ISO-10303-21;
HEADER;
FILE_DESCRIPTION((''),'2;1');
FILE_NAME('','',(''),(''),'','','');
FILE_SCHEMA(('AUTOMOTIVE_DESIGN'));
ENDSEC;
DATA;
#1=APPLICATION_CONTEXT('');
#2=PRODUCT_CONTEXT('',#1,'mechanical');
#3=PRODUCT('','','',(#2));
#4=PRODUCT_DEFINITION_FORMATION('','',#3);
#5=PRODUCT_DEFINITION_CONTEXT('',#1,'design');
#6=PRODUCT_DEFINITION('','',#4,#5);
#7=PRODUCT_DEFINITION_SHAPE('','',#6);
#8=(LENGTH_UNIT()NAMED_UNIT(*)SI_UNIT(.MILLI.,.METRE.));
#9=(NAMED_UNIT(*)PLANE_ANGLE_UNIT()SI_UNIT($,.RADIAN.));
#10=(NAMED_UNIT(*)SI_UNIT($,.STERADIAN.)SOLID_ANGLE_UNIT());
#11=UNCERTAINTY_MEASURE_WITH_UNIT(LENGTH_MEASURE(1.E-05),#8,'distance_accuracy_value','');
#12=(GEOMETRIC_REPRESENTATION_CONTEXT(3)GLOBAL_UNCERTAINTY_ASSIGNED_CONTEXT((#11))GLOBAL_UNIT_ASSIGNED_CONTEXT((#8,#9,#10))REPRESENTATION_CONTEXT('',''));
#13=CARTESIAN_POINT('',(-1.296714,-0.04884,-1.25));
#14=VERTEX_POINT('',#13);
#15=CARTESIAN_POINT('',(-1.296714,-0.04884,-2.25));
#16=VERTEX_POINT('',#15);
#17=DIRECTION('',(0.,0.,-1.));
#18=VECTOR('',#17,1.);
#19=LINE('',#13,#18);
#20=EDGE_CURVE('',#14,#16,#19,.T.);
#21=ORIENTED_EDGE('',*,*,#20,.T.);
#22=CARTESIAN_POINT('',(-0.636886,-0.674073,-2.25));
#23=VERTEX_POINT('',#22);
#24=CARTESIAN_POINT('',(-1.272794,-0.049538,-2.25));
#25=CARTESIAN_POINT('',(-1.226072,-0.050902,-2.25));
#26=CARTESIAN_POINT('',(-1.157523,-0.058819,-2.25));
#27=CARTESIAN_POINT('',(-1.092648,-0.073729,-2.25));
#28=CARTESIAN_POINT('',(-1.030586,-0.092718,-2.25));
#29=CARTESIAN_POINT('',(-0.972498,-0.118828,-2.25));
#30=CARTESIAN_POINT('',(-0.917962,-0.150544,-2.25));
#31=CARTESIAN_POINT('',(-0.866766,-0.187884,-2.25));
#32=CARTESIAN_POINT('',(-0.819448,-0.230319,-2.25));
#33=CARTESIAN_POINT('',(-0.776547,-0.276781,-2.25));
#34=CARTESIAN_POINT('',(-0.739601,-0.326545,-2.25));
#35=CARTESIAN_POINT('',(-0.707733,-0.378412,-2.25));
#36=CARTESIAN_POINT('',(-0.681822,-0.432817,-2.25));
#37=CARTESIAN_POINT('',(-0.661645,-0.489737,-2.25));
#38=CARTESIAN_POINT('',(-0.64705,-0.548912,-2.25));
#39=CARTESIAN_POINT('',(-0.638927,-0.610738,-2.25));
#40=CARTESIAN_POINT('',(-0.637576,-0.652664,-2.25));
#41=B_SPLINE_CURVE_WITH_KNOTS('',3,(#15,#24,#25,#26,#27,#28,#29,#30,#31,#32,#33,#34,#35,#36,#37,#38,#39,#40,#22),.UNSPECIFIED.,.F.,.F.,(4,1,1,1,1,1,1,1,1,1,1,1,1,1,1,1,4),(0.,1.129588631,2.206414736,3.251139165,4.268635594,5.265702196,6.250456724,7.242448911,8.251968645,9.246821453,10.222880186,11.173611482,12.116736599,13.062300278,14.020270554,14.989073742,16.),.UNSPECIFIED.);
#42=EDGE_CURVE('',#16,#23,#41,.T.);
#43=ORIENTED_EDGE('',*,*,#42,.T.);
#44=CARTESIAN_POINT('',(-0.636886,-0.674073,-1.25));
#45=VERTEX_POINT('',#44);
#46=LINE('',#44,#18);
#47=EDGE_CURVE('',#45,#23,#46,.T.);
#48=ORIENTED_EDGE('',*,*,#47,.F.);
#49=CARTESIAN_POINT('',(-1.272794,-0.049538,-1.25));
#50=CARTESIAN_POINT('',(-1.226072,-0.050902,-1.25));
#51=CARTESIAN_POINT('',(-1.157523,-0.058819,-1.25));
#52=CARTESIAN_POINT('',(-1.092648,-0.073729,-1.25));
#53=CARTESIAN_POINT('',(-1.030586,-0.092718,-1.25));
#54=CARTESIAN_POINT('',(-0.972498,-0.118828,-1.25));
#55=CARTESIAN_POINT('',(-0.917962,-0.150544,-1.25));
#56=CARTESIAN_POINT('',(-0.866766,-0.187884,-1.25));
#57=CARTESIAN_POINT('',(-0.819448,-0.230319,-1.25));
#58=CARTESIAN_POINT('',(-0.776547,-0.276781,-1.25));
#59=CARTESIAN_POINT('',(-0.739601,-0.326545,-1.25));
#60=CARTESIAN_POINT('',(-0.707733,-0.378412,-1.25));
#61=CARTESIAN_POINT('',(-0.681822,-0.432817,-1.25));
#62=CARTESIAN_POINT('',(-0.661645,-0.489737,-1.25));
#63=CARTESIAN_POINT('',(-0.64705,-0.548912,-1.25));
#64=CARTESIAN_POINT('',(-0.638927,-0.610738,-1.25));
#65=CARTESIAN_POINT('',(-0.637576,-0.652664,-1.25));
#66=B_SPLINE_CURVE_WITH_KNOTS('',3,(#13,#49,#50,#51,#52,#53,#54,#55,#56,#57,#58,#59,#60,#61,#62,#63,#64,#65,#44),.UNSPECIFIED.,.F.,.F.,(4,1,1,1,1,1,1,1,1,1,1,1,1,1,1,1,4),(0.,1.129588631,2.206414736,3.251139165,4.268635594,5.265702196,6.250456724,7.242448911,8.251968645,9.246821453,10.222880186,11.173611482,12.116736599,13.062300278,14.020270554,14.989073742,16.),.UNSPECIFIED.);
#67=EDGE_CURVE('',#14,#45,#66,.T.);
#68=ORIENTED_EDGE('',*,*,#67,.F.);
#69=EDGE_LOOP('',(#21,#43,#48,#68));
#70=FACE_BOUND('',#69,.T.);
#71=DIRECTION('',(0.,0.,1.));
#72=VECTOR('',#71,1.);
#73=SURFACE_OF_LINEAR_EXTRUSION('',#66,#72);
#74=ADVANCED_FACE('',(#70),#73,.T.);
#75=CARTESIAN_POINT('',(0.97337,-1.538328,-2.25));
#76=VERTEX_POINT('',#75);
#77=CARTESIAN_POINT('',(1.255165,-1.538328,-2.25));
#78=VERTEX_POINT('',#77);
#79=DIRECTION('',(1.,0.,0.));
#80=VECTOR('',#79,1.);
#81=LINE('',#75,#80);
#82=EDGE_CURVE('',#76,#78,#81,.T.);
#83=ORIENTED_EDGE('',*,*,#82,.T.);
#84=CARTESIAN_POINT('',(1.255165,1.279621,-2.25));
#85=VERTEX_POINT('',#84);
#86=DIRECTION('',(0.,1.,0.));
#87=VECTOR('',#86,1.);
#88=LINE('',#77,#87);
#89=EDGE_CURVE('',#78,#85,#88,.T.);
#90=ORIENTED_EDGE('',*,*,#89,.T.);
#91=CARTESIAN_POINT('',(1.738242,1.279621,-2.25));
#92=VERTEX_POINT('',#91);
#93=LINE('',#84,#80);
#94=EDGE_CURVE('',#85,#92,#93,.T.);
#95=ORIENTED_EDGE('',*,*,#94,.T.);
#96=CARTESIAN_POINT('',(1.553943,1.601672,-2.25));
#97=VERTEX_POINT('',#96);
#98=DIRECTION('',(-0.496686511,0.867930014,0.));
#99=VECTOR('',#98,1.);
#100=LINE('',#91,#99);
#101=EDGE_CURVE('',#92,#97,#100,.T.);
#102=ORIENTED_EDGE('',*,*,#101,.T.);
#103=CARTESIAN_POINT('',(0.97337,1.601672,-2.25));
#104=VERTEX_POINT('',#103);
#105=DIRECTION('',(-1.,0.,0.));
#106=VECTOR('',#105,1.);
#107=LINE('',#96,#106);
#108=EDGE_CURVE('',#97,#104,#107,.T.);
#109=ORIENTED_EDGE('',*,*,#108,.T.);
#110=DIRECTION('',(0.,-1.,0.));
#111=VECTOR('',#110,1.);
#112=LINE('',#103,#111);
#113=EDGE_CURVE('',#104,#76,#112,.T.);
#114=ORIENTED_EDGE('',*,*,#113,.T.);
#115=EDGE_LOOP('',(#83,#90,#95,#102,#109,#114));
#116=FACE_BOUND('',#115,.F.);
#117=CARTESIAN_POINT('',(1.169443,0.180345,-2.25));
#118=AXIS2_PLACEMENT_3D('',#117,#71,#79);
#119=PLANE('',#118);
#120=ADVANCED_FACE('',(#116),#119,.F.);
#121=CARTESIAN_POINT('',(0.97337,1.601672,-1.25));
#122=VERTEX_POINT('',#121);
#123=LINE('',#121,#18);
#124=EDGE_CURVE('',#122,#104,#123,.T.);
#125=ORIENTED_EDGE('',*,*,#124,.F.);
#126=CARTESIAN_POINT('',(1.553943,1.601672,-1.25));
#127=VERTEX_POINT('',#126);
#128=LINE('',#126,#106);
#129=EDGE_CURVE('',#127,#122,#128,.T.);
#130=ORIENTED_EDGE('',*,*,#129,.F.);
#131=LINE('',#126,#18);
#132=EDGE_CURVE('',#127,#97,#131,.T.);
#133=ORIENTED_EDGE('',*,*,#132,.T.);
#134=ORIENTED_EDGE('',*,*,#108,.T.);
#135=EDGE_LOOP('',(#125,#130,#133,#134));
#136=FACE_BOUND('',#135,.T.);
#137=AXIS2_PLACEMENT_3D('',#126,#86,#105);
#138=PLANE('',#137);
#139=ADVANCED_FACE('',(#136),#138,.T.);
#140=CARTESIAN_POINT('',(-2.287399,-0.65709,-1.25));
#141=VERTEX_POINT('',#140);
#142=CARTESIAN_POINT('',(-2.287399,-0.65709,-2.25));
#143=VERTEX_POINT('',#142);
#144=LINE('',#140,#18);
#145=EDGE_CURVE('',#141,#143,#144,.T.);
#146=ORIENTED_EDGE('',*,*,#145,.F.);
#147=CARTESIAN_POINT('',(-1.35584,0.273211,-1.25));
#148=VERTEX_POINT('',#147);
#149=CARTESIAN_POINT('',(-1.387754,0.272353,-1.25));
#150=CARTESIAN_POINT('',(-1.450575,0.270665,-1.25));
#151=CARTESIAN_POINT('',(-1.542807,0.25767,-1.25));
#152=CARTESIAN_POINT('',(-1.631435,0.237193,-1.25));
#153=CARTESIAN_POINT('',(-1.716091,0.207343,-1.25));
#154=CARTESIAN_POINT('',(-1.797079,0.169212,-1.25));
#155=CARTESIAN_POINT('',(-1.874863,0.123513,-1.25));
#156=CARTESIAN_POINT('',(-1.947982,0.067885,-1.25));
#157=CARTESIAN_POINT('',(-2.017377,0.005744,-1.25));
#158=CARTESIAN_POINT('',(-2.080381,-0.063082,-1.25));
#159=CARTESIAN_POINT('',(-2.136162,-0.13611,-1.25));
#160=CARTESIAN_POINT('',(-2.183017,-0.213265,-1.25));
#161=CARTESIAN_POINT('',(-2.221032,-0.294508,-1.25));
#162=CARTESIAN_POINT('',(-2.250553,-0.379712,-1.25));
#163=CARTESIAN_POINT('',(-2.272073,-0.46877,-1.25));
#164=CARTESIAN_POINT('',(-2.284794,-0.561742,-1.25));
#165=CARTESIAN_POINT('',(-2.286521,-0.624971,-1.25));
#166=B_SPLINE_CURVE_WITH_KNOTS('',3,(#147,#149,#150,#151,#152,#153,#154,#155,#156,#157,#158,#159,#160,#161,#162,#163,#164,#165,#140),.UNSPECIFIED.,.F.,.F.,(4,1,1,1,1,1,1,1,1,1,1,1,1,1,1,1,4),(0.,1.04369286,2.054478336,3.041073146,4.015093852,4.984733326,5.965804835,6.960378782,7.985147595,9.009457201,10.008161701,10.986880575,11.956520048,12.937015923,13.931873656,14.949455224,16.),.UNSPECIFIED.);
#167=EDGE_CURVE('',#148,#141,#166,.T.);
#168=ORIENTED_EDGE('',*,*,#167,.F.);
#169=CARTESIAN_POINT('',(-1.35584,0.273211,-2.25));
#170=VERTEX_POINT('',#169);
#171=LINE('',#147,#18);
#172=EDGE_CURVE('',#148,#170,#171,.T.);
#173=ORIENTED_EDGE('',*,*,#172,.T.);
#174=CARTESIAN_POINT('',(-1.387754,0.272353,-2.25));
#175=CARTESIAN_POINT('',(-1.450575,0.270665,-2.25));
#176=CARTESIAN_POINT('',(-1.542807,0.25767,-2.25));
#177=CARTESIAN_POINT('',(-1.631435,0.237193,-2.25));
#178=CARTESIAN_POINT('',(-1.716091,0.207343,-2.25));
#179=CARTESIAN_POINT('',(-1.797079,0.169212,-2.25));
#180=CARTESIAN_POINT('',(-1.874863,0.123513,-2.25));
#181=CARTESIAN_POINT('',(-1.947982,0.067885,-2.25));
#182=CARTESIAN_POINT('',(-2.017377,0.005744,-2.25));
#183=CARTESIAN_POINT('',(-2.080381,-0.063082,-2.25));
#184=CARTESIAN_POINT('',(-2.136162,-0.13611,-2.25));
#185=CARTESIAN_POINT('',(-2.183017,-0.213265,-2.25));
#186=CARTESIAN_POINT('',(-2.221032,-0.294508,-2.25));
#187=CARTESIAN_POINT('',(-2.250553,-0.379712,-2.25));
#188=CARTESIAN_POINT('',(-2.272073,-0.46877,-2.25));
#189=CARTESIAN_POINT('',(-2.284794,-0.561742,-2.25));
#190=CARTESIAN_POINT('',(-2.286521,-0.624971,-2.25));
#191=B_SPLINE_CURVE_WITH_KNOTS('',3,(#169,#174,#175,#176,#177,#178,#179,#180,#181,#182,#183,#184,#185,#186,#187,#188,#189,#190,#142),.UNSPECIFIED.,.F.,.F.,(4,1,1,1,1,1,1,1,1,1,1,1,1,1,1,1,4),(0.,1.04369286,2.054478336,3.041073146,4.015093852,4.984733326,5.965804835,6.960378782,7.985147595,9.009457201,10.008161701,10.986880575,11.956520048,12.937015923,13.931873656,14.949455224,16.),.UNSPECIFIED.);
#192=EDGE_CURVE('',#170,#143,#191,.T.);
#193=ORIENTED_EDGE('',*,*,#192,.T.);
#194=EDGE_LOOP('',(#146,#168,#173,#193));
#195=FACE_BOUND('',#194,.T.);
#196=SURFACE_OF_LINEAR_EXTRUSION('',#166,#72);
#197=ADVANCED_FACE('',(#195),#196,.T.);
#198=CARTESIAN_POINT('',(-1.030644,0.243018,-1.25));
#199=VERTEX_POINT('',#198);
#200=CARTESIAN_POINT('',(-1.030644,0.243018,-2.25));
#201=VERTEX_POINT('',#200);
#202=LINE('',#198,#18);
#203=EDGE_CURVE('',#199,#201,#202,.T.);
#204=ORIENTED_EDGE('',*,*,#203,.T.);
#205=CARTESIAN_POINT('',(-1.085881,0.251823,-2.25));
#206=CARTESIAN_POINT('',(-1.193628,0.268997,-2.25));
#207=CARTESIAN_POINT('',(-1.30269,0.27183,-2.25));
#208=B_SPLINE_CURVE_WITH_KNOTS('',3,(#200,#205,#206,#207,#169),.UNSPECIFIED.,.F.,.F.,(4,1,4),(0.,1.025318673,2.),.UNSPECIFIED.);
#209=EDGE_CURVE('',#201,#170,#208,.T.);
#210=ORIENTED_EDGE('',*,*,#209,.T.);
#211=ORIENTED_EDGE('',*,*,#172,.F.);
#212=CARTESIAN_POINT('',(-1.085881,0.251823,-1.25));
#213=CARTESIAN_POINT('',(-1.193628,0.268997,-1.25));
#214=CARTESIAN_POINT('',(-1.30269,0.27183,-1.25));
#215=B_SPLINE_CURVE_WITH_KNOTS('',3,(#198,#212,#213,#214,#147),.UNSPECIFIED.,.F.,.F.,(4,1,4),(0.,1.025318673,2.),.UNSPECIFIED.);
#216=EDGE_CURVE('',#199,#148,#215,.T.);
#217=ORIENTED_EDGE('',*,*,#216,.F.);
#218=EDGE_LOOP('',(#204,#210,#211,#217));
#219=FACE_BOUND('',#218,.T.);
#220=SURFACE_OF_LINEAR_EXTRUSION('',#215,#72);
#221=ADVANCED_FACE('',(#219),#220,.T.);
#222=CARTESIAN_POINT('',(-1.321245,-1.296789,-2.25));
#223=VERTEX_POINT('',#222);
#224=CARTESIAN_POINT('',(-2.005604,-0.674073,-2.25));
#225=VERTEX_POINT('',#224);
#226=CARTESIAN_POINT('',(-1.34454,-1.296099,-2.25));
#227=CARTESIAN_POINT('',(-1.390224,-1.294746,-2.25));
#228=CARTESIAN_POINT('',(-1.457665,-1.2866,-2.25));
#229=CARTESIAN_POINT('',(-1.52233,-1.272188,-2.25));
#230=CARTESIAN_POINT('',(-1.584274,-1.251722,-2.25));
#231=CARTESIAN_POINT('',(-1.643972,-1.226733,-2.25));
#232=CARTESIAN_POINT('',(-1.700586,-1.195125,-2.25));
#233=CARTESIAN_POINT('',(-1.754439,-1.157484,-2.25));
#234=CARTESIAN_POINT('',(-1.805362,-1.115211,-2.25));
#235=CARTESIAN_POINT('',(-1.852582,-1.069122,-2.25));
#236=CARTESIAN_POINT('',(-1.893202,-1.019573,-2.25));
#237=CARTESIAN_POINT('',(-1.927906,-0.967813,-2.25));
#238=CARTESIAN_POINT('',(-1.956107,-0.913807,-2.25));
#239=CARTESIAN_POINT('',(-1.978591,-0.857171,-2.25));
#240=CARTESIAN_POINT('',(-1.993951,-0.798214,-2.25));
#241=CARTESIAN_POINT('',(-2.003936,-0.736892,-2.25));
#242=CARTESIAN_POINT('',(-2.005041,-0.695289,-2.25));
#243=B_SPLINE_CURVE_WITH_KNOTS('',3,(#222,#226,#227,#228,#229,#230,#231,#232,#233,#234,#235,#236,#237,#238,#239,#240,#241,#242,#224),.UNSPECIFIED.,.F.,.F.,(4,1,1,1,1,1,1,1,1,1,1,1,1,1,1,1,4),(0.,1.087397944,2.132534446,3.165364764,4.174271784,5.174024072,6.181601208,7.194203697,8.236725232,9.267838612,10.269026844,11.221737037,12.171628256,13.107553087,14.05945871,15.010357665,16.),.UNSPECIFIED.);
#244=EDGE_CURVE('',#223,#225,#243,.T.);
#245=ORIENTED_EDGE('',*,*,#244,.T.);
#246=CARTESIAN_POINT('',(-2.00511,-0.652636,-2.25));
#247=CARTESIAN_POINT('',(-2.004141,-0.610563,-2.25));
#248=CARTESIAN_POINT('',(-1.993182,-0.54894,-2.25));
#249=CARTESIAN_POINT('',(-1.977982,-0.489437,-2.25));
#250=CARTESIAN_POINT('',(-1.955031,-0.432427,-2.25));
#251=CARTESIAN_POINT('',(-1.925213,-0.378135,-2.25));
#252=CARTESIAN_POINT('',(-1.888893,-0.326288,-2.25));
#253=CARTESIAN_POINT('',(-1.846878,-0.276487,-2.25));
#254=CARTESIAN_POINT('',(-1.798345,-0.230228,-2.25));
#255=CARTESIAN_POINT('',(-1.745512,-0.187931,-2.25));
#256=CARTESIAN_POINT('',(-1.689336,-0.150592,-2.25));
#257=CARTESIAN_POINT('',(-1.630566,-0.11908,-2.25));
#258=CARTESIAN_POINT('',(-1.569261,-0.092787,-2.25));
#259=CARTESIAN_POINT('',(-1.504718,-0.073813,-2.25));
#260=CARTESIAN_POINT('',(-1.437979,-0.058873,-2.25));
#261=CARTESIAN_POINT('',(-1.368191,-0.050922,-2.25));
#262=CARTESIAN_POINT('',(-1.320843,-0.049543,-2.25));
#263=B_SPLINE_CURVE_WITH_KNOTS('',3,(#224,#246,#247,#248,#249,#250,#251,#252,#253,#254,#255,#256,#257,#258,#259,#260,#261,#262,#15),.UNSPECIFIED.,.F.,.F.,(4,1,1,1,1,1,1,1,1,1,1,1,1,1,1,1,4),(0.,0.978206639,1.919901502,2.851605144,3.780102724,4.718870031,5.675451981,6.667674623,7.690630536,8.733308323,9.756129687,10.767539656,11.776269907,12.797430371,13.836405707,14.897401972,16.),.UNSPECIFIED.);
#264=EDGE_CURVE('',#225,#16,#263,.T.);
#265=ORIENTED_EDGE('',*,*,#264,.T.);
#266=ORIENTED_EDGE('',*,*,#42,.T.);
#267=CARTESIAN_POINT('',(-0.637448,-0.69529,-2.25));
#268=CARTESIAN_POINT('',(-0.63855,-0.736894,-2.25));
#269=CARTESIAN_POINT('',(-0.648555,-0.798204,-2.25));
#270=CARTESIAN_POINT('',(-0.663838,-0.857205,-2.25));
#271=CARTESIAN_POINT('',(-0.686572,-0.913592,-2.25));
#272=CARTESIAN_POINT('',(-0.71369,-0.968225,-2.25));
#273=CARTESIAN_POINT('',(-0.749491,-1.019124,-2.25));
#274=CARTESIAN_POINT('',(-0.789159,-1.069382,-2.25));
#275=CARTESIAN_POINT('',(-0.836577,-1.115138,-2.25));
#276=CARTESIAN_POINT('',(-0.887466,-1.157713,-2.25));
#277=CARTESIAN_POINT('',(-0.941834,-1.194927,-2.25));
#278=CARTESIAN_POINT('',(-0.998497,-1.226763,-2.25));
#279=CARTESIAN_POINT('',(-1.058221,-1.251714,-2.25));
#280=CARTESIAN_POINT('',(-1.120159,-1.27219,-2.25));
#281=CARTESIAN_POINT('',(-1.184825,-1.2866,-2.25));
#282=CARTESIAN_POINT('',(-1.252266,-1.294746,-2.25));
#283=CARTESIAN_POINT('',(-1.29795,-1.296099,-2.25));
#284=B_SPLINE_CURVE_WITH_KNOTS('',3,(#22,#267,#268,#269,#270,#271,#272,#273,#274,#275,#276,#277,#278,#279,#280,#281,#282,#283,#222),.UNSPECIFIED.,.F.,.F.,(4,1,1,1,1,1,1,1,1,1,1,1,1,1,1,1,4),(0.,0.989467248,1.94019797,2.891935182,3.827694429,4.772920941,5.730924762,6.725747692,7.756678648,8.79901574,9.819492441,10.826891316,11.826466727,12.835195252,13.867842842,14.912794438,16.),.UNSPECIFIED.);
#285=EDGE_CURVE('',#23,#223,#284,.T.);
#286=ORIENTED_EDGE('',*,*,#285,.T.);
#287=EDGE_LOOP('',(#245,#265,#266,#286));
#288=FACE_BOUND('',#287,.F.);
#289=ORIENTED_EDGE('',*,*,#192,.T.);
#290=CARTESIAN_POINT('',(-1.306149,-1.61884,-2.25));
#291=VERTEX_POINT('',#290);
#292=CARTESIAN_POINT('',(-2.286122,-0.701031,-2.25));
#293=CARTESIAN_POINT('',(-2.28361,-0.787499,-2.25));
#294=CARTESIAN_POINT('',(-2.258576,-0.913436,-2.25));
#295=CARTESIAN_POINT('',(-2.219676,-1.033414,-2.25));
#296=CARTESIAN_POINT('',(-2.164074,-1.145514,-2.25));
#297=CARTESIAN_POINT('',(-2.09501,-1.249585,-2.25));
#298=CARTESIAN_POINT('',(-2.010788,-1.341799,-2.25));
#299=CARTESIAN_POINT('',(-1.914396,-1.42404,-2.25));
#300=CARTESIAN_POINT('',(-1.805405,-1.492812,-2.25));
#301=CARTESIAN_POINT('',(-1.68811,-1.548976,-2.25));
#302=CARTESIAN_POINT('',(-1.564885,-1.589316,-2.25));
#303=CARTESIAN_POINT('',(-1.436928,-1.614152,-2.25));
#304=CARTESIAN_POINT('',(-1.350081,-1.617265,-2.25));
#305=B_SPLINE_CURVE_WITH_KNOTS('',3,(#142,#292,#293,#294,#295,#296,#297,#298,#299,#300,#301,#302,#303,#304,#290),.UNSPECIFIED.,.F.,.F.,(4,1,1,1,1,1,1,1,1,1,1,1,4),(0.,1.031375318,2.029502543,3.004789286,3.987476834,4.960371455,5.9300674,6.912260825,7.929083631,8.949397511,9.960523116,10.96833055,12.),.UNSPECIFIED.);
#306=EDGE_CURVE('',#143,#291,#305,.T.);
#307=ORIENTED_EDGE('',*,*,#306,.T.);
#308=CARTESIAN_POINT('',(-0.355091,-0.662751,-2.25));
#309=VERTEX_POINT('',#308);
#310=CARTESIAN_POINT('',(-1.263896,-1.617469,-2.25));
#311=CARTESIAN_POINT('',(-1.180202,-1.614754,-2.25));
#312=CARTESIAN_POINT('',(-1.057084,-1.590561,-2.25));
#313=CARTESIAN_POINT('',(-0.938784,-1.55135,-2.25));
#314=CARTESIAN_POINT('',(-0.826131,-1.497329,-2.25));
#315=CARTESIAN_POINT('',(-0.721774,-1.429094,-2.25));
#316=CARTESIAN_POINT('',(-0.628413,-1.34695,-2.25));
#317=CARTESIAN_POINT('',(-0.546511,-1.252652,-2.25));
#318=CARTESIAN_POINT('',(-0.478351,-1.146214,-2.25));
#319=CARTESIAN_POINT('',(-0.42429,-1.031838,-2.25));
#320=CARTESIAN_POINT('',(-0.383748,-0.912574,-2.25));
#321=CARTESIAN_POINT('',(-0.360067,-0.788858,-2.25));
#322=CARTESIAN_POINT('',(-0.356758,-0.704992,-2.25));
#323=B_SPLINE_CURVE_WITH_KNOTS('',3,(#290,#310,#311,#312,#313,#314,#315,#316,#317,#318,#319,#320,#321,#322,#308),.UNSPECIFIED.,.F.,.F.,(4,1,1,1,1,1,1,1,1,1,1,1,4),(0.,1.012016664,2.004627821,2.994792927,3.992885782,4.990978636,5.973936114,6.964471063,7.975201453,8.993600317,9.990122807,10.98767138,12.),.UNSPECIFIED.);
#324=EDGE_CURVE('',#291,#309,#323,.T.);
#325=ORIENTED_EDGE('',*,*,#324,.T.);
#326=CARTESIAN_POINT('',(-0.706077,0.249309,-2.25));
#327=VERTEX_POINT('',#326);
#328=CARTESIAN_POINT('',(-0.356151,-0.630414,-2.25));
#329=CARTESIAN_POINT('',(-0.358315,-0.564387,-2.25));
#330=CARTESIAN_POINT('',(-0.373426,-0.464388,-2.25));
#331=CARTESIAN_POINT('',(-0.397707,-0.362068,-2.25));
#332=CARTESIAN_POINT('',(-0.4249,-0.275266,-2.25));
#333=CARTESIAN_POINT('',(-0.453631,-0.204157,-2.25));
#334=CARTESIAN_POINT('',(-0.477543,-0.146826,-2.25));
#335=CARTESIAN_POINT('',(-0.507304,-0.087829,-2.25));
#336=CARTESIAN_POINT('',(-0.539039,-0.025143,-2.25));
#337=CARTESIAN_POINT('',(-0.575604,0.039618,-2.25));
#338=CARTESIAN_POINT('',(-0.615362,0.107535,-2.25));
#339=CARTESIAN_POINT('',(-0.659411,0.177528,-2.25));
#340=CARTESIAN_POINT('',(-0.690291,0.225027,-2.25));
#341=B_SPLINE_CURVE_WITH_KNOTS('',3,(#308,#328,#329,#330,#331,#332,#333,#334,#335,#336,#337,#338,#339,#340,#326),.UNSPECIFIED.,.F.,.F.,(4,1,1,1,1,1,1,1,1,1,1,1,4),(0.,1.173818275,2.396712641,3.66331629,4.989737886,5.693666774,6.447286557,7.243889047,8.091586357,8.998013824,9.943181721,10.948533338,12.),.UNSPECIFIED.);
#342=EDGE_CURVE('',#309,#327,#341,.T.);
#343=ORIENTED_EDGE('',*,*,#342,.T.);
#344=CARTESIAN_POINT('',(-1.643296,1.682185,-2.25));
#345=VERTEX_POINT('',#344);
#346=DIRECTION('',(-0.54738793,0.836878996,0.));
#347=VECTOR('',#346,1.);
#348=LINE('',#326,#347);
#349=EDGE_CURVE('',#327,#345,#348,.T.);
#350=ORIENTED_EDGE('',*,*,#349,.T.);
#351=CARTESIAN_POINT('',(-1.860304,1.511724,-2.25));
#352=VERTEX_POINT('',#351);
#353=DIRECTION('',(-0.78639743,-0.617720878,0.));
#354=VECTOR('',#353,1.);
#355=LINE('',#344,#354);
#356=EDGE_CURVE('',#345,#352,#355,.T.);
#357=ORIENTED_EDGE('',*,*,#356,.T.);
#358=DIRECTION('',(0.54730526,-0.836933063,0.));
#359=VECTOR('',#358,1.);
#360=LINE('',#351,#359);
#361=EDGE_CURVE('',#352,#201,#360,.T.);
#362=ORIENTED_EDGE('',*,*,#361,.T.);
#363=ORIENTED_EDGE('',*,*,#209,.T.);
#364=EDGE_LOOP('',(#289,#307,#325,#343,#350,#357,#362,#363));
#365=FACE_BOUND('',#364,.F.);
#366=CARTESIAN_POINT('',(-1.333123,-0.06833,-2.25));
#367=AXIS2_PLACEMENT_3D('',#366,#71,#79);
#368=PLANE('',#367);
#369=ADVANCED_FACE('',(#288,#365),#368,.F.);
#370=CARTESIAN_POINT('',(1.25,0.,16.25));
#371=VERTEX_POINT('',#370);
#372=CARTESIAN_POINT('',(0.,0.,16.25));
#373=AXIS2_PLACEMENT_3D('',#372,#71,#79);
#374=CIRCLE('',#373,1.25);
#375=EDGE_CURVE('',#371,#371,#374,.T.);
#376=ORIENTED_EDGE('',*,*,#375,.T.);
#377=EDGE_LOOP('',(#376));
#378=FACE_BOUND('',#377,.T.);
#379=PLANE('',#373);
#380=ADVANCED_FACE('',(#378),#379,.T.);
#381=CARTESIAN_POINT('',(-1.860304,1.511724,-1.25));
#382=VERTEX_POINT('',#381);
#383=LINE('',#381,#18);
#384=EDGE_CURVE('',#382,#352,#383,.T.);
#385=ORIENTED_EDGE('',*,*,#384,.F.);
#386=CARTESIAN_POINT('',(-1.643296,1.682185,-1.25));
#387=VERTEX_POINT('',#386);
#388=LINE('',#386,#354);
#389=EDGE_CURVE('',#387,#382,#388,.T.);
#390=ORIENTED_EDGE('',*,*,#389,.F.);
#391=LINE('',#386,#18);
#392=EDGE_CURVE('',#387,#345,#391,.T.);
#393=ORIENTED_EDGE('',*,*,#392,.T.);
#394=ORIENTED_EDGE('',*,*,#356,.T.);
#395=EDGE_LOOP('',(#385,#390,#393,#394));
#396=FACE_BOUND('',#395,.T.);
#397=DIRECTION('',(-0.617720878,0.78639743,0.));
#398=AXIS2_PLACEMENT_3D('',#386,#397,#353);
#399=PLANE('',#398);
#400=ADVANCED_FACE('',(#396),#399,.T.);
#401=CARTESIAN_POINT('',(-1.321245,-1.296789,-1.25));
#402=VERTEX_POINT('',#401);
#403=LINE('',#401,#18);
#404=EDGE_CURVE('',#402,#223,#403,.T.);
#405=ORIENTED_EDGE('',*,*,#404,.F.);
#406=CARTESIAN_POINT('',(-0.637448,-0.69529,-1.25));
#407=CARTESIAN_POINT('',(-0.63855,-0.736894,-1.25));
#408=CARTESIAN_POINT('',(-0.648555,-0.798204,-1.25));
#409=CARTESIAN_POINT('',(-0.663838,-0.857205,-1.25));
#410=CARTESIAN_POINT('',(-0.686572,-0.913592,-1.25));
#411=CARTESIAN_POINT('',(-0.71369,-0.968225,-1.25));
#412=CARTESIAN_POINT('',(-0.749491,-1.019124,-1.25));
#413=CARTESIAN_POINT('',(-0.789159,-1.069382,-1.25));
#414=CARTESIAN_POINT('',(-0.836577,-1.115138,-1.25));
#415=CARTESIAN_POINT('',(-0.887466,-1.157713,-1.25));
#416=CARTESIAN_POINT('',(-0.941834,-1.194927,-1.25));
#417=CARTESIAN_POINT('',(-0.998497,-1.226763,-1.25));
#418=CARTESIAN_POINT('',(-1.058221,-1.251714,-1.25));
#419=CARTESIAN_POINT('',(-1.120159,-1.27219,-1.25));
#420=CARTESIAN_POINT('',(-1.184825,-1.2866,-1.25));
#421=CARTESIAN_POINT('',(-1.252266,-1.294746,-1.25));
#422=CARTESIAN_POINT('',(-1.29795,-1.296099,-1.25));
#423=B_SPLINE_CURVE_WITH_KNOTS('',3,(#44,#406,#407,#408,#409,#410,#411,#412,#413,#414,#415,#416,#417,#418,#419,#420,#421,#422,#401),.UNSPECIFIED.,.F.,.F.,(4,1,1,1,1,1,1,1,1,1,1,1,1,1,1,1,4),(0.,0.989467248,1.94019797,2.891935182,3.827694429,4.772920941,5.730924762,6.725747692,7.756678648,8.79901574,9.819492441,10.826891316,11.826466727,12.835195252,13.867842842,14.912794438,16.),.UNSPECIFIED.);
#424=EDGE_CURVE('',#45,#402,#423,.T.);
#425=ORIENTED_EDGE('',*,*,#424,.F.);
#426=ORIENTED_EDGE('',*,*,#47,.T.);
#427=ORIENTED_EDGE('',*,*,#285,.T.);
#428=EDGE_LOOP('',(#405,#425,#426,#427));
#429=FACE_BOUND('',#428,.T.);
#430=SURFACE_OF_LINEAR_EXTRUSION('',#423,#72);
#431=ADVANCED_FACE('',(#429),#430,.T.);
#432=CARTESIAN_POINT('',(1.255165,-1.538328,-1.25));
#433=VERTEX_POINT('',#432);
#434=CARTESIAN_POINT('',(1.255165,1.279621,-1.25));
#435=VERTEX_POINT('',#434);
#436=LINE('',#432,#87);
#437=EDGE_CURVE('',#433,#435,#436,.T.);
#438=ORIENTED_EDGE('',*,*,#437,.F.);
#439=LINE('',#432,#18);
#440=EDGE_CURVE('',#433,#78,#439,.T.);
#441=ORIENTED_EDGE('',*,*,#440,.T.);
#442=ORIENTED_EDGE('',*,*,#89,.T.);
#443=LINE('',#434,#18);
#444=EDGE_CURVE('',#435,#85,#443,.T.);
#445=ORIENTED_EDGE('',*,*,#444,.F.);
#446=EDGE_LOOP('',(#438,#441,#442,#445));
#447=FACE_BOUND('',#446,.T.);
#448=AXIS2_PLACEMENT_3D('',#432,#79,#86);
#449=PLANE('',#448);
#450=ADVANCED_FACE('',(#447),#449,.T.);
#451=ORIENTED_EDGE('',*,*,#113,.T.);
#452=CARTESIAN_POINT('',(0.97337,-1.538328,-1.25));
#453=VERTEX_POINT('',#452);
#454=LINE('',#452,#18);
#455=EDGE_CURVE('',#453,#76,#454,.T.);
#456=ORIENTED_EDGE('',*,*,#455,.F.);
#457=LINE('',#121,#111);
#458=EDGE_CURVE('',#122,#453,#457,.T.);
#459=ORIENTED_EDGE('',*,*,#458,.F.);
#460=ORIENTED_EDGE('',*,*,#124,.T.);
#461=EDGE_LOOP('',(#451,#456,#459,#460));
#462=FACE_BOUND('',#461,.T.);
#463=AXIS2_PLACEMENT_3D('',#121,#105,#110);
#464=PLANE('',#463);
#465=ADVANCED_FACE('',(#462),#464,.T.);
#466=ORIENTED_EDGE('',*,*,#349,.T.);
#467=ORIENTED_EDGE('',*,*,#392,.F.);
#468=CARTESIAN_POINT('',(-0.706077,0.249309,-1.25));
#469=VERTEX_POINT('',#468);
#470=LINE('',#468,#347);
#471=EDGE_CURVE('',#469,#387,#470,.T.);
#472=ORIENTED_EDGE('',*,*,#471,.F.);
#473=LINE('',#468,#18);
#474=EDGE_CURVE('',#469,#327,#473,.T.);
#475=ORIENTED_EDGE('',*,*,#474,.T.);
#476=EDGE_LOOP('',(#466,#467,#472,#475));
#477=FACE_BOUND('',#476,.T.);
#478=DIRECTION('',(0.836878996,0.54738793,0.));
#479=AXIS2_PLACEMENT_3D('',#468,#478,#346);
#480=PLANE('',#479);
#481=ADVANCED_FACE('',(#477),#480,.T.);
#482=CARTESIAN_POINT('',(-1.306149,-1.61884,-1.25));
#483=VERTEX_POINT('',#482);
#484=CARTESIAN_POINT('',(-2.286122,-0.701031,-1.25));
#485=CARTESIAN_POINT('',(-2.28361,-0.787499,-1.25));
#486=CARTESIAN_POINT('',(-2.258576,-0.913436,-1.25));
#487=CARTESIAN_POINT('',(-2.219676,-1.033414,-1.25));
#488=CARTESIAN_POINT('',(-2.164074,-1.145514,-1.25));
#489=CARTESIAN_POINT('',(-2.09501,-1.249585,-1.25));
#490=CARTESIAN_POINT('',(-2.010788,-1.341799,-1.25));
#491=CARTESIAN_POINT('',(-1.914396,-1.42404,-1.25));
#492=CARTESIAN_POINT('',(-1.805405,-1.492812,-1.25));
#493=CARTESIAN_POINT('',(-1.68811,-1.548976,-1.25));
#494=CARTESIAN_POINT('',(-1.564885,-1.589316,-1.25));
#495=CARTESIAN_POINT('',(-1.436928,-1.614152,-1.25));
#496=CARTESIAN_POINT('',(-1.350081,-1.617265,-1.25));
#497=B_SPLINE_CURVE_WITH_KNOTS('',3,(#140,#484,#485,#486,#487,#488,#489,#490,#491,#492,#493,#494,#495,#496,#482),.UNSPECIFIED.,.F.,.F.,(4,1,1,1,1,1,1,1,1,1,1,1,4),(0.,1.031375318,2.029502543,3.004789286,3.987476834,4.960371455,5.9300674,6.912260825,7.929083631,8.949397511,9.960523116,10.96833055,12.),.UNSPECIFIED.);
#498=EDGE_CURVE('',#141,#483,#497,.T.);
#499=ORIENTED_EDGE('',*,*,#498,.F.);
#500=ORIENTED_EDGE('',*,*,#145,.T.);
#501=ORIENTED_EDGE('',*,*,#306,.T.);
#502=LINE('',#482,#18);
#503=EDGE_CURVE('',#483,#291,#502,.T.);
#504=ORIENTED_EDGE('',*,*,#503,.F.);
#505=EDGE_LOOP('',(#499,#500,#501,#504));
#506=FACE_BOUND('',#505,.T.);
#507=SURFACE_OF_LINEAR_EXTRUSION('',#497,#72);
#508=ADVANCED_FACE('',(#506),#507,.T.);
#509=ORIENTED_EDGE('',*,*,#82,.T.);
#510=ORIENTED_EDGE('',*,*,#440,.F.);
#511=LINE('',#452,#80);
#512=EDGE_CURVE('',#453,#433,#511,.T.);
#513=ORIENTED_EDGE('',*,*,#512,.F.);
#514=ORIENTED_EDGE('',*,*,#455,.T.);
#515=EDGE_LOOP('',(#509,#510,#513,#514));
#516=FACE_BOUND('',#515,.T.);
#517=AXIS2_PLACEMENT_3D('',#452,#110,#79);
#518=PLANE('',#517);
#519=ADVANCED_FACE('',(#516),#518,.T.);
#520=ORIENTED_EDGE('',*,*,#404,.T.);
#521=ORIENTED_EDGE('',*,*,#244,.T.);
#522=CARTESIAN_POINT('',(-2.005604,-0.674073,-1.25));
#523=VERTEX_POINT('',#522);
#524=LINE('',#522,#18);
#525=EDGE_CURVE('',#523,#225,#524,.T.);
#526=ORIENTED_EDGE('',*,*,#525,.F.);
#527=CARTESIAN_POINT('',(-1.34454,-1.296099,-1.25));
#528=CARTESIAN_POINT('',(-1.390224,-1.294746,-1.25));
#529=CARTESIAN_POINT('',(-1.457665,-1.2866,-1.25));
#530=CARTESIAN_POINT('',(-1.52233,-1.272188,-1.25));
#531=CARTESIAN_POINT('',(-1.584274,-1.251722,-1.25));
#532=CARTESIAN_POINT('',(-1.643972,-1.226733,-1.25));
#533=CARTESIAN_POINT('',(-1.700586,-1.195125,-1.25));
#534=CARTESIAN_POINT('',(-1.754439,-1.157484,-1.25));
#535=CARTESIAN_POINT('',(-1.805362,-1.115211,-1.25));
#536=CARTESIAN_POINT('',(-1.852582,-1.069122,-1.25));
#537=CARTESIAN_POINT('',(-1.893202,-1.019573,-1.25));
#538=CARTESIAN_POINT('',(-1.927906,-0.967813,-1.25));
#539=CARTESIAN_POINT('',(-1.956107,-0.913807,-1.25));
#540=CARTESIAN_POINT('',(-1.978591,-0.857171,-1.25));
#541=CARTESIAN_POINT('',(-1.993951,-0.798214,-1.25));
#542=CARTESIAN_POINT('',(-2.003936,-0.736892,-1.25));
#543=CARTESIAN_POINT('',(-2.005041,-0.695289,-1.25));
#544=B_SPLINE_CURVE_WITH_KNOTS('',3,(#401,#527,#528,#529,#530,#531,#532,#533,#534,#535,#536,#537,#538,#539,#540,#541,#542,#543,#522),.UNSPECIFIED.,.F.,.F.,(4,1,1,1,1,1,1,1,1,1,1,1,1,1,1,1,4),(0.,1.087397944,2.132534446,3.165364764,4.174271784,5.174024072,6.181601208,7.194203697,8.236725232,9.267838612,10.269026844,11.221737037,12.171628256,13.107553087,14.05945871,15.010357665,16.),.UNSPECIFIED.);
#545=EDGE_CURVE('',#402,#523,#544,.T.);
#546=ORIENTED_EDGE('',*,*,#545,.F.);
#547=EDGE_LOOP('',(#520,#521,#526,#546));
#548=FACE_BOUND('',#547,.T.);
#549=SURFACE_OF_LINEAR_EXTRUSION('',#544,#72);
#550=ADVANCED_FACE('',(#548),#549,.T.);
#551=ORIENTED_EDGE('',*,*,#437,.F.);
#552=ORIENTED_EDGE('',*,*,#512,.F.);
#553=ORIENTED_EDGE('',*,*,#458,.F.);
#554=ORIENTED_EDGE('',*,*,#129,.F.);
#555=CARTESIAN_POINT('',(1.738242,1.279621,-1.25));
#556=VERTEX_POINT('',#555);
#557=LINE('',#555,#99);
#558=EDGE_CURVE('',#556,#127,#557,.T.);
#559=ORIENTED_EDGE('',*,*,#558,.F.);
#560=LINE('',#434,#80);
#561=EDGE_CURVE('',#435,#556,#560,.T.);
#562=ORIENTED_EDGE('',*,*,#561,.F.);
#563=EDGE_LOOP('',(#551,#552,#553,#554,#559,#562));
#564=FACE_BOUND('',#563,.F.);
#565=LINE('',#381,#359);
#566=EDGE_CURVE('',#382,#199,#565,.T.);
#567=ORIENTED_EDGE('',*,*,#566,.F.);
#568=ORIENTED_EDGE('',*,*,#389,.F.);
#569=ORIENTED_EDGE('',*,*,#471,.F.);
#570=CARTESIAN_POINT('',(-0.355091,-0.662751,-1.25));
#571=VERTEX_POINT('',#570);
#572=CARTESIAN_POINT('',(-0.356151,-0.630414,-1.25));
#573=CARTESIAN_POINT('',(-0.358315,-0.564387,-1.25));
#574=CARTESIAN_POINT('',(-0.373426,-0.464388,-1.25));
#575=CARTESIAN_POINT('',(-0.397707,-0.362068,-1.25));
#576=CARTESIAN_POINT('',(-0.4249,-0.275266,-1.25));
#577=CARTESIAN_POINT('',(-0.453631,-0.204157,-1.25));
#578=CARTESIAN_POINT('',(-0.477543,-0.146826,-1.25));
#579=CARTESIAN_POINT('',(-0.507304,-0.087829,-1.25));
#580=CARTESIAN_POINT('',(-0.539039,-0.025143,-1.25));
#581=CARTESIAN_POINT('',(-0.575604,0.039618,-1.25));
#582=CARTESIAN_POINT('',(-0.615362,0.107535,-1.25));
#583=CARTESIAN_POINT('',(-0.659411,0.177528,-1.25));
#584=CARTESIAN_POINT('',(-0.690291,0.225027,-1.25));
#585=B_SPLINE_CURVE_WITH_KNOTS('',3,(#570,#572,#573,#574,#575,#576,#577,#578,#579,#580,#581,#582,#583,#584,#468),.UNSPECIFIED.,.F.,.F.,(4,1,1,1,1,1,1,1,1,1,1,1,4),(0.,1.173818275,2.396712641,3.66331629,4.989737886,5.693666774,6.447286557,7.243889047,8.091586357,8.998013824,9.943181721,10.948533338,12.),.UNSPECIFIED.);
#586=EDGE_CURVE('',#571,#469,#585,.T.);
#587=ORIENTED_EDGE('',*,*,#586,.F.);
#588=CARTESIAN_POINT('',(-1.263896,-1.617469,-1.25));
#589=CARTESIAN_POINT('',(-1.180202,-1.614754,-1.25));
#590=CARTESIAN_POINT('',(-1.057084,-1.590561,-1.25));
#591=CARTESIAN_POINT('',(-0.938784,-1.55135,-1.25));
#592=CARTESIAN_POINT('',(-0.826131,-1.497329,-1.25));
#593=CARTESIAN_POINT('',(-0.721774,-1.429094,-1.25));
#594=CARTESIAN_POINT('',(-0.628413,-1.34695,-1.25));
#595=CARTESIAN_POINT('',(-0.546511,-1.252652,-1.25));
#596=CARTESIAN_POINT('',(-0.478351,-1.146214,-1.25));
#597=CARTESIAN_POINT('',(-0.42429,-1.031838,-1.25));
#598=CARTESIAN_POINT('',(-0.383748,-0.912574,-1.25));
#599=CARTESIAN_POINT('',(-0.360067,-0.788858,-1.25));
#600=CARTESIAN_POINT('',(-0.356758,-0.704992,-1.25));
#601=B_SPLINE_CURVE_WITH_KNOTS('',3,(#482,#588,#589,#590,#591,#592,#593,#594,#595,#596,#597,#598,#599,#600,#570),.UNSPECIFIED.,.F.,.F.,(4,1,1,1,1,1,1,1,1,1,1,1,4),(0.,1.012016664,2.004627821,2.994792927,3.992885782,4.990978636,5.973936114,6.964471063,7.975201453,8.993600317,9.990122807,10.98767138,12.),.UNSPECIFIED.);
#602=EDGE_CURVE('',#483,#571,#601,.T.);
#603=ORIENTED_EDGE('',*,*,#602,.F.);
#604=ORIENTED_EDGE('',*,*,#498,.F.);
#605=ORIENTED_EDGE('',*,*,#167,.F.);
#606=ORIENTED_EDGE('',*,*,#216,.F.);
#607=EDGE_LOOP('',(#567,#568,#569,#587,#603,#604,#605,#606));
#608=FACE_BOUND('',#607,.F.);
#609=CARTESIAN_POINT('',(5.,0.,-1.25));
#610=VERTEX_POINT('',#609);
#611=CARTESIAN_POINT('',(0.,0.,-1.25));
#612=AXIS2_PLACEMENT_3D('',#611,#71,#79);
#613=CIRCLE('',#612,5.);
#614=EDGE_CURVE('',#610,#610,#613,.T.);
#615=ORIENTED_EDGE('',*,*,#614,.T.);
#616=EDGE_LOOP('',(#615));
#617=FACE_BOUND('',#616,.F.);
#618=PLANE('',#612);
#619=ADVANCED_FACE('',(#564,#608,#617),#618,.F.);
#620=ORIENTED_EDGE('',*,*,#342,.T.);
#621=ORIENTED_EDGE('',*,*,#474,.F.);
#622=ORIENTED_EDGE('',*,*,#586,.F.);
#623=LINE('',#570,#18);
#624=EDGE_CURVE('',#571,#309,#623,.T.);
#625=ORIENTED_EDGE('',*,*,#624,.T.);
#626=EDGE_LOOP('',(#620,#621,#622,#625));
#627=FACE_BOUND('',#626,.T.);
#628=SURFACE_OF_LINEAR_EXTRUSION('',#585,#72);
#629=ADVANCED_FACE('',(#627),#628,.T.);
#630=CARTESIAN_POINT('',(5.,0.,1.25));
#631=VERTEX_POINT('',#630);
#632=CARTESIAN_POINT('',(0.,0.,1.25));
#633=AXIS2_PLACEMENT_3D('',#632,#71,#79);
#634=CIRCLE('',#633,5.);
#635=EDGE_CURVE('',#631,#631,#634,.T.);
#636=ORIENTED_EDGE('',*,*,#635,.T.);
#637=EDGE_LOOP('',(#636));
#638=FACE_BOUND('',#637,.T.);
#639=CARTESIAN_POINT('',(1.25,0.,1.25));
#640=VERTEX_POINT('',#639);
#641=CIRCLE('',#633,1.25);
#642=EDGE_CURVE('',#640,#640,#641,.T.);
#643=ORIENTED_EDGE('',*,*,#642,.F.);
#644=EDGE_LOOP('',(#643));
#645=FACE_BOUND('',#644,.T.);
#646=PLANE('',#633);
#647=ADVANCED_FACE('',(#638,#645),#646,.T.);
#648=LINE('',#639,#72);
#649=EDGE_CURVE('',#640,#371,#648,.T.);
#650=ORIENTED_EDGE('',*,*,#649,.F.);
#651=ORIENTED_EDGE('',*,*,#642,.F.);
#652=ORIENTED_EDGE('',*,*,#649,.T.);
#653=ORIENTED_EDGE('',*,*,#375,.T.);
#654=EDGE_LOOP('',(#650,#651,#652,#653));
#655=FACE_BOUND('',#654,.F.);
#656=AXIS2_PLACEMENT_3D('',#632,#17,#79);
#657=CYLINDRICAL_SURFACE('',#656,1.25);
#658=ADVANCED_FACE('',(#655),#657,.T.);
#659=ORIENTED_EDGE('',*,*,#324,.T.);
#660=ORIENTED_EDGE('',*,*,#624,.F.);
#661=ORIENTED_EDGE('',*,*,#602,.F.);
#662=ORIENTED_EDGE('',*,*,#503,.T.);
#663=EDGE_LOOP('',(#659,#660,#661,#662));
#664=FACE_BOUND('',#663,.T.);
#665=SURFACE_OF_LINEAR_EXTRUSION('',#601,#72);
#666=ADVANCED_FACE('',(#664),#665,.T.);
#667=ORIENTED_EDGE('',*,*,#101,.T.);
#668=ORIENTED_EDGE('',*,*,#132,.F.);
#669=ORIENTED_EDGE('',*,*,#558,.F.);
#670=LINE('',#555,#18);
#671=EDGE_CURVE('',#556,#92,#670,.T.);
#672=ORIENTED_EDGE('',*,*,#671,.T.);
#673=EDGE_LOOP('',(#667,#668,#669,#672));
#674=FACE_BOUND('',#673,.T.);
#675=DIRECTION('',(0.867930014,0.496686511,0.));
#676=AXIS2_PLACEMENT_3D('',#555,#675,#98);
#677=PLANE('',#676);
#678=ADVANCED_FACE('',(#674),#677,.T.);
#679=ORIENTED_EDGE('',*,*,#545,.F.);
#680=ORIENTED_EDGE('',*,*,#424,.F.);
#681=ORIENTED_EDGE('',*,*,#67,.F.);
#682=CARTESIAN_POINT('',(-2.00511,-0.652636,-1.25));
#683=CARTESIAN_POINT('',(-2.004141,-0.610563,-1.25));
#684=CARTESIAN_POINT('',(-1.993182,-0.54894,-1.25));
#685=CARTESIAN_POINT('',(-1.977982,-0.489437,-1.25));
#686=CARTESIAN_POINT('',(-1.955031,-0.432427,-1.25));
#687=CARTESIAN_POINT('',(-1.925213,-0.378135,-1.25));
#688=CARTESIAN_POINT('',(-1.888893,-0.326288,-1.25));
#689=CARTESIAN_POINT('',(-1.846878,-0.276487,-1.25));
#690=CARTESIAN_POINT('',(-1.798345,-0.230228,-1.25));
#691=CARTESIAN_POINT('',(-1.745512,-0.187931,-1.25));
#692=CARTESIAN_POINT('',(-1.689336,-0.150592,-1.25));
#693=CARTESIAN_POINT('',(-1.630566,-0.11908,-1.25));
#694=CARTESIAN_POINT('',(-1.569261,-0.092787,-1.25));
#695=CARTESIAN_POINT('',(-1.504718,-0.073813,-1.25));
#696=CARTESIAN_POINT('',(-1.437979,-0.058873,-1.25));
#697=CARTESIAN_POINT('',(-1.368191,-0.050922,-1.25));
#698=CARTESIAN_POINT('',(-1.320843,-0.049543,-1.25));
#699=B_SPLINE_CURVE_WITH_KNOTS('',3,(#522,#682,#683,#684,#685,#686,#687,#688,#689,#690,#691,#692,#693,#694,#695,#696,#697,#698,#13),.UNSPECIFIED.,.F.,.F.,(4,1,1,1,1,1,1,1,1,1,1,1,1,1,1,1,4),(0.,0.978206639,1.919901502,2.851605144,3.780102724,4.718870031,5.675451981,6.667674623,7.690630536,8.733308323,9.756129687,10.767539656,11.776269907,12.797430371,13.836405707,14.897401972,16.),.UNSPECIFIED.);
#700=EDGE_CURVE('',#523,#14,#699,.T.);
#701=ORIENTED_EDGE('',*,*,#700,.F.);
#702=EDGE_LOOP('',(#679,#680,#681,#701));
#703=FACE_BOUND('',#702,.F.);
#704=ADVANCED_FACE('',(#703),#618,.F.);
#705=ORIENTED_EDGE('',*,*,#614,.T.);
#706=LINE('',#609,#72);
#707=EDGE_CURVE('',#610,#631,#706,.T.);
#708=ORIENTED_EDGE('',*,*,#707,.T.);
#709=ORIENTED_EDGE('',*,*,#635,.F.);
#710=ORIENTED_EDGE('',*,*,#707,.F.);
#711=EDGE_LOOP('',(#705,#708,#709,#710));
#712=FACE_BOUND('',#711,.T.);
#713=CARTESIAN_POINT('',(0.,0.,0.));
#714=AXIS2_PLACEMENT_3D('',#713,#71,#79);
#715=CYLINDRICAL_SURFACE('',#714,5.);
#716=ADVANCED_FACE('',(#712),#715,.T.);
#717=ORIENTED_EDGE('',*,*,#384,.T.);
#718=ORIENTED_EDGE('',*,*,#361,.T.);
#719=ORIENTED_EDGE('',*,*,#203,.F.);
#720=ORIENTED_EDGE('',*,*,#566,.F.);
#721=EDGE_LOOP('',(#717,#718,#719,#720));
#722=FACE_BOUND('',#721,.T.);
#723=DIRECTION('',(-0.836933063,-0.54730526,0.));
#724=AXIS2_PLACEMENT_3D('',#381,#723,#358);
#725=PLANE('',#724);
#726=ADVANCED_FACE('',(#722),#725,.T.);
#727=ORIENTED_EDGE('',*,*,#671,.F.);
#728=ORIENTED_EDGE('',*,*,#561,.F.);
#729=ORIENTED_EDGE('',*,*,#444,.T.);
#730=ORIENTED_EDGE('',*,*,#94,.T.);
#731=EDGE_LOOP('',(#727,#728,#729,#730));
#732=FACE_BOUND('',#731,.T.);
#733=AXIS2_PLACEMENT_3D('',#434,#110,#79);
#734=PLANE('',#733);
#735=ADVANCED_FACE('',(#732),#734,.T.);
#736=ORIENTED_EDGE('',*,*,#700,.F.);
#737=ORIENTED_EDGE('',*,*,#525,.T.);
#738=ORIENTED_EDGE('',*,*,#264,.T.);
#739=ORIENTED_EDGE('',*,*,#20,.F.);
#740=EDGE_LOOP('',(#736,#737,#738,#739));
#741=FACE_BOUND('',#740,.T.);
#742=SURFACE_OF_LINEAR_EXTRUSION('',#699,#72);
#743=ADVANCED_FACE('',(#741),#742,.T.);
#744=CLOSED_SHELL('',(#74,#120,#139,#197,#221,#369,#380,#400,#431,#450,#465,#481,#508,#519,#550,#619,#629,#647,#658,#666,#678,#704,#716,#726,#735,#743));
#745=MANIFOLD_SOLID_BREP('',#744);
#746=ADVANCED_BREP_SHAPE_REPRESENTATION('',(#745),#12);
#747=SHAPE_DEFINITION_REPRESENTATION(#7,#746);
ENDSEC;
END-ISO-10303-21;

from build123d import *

# Parameters (mm, degrees)
SKETCH1_R           = 5
BOSS_EXTRUDE1_DEPTH = 1.25
SKETCH2_R           = 1.25
BOSS_EXTRUDE2_DEPTH = 15
BOSS_EXTRUDE3_DEPTH = 1


with BuildPart() as part:
    # Sketch1 → Boss-Extrude1 (new, symmetric)
    with BuildSketch(Plane.XY):
        Circle(SKETCH1_R)
    extrude(amount=BOSS_EXTRUDE1_DEPTH, both=True)

    # Sketch2 → Boss-Extrude2 (add)
    with BuildSketch(Plane.XY.offset(1.25)):
        Circle(SKETCH2_R)
    extrude(amount=BOSS_EXTRUDE2_DEPTH)

    # Sketch4 → Boss-Extrude3 (add)
    # profile 1 of 2: a face of its own
    with BuildSketch(Plane(origin=(0, 0, -1.25), x_dir=(-1, 0, 0), z_dir=(0, 0, -1))):
        Polygon((-1.553943212, 1.601672339), (-0.973370295, 1.601672339), (-0.973370295, -1.538327661), (-1.255165167, -1.538327661), (-1.255165167, 1.279621057), (-1.73824209, 1.279621057), align=None)
    # profile 2 of 2: a face of its own
    with BuildSketch(Plane(origin=(0, 0, -1.25), x_dir=(-1, 0, 0), z_dir=(0, 0, -1))):
        with BuildLine():
            Line((1.643296371, 1.68218516), (1.860303583, 1.511724423))
            Line((1.860303583, 1.511724423), (1.030644128, 0.243018493))
            add(Edge.make_bspline(
                [(1.030644128, 0.243018493), (1.085881462, 0.251822928), (1.193628128, 0.268996974), (1.302690105, 0.271830102), (1.355840442, 0.273210801)],
                knots=[0, 0, 0, 0, 1.025318673, 2, 2, 2, 2], degree=3))
            add(Edge.make_bspline(
                [(1.355840442, 0.273210801), (1.387754053, 0.272353032), (1.450575046, 0.27066454), (1.542807435, 0.257670457), (1.631435223, 0.23719307), (1.716091069, 0.207343104), (1.79707883, 0.16921242), (1.874863266, 0.123512976), (1.947982212, 0.067885023), (2.01737727, 0.005744463), (2.080381009, -0.063081632), (2.136161813, -0.13611026), (2.183016706, -0.213265336), (2.221032167, -0.294507781), (2.250552544, -0.379712363), (2.272072888, -0.468770065), (2.284794009, -0.561742299), (2.286521449, -0.624971291), (2.287398935, -0.65708968)],
                knots=[0, 0, 0, 0, 1.04369286, 2.054478336, 3.041073146, 4.015093852, 4.984733326, 5.965804835, 6.960378782, 7.985147595, 9.009457201, 10.008161701, 10.986880575, 11.956520048, 12.937015923, 13.931873656, 14.949455224, 16, 16, 16, 16], degree=3))
            add(Edge.make_bspline(
                [(2.287398935, -0.65708968), (2.286122207, -0.701031472), (2.283609908, -0.787498518), (2.258576216, -0.913436478), (2.219676421, -1.033413649), (2.164073724, -1.145514494), (2.095009529, -1.249585371), (2.010787917, -1.341798617), (1.914395759, -1.424039736), (1.805404746, -1.492811674), (1.68810963, -1.548975554), (1.564885266, -1.5893158), (1.436928341, -1.614151827), (1.350080778, -1.617265453), (1.306148935, -1.618840481)],
                knots=[0, 0, 0, 0, 1.031375318, 2.029502543, 3.004789286, 3.987476834, 4.960371455, 5.9300674, 6.912260825, 7.929083631, 8.949397511, 9.960523116, 10.96833055, 12, 12, 12, 12], degree=3))
            add(Edge.make_bspline(
                [(1.306148935, -1.618840481), (1.263896467, -1.617469462), (1.180201724, -1.614753714), (1.057084303, -1.590561416), (0.938784339, -1.5513499), (0.826130666, -1.497329091), (0.721774459, -1.429094304), (0.628412717, -1.346949859), (0.546510953, -1.252651654), (0.478350865, -1.146214313), (0.424290174, -1.031837609), (0.383748355, -0.912573988), (0.360067154, -0.788858005), (0.356757992, -0.704992069), (0.355091243, -0.662750738)],
                knots=[0, 0, 0, 0, 1.012016664, 2.004627821, 2.994792927, 3.992885782, 4.990978636, 5.973936114, 6.964471063, 7.975201453, 8.993600317, 9.990122807, 10.98767138, 12, 12, 12, 12], degree=3))
            add(Edge.make_bspline(
                [(0.355091243, -0.662750738), (0.356151168, -0.630413597), (0.358315332, -0.564387335), (0.37342626, -0.464388179), (0.397707247, -0.362068065), (0.424899868, -0.275265732), (0.453631415, -0.204156823), (0.477542551, -0.146826263), (0.507304364, -0.087829186), (0.539039341, -0.025142553), (0.575604074, 0.039618093), (0.615361543, 0.107535099), (0.659410944, 0.177528325), (0.690290747, 0.225026832), (0.70607682, 0.249308557)],
                knots=[0, 0, 0, 0, 1.173818275, 2.396712641, 3.66331629, 4.989737886, 5.693666774, 6.447286557, 7.243889047, 8.091586357, 8.998013824, 9.943181721, 10.948533338, 12, 12, 12, 12], degree=3))
            Line((0.70607682, 0.249308557), (1.643296371, 1.68218516))
        make_face()
        with BuildLine():
            add(Edge.make_bspline(
                [(1.296713839, -0.048840481), (1.272793997, -0.049538498), (1.226071596, -0.050901926), (1.157523229, -0.058819438), (1.092647912, -0.073729114), (1.030586141, -0.092718337), (0.972498202, -0.11882794), (0.917961928, -0.150543554), (0.866766425, -0.187883696), (0.819447924, -0.230319371), (0.776546855, -0.276780635), (0.739601497, -0.32654472), (0.70773283, -0.37841232), (0.681821712, -0.432816805), (0.661644901, -0.489737379), (0.647049956, -0.548912248), (0.638927448, -0.610738226), (0.637576143, -0.652663957), (0.636886115, -0.674072853)],
                knots=[0, 0, 0, 0, 1.129588631, 2.206414736, 3.251139165, 4.268635594, 5.265702196, 6.250456724, 7.242448911, 8.251968645, 9.246821453, 10.222880186, 11.173611482, 12.116736599, 13.062300278, 14.020270554, 14.989073742, 16, 16, 16, 16], degree=3))
            add(Edge.make_bspline(
                [(0.636886115, -0.674072853), (0.637448051, -0.695290264), (0.638549923, -0.736894447), (0.648555147, -0.798204454), (0.66383805, -0.857204972), (0.686572005, -0.913591834), (0.713689841, -0.968224531), (0.749490618, -1.019124187), (0.789159392, -1.069382193), (0.83657692, -1.115137799), (0.88746588, -1.15771317), (0.941833816, -1.194926883), (0.998497323, -1.22676305), (1.058221399, -1.251713578), (1.120158692, -1.272190224), (1.184825246, -1.286599665), (1.252266037, -1.294746194), (1.29795029, -1.296099259), (1.321245089, -1.296789199)],
                knots=[0, 0, 0, 0, 0.989467248, 1.94019797, 2.891935182, 3.827694429, 4.772920941, 5.730924762, 6.725747692, 7.756678648, 8.79901574, 9.819492441, 10.826891316, 11.826466727, 12.835195252, 13.867842842, 14.912794438, 16, 16, 16, 16], degree=3))
            add(Edge.make_bspline(
                [(1.321245089, -1.296789199), (1.344539851, -1.296099205), (1.390224029, -1.294746034), (1.457665362, -1.286600274), (1.522329911, -1.27218799), (1.584274493, -1.251721676), (1.643971662, -1.226733009), (1.700585612, -1.195124944), (1.754439388, -1.157484313), (1.805361754, -1.115210557), (1.852581916, -1.06912177), (1.893202103, -1.019572819), (1.92790649, -0.967813153), (1.956107446, -0.913807046), (1.978591005, -0.857170877), (1.993951407, -0.798213588), (2.003935969, -0.736892056), (2.00504068, -0.695289456), (2.005604064, -0.674072853)],
                knots=[0, 0, 0, 0, 1.087397944, 2.132534446, 3.165364764, 4.174271784, 5.174024072, 6.181601208, 7.194203697, 8.236725232, 9.267838612, 10.269026844, 11.221737037, 12.171628256, 13.107553087, 14.05945871, 15.010357665, 16, 16, 16, 16], degree=3))
            add(Edge.make_bspline(
                [(2.005604064, -0.674072853), (2.005110372, -0.652636027), (2.004141416, -0.61056251), (1.993181965, -0.548939904), (1.977982236, -0.489436719), (1.955030603, -0.432426925), (1.925212674, -0.378135493), (1.888893274, -0.326288171), (1.846877768, -0.276487459), (1.798344547, -0.230228254), (1.745511594, -0.18793059), (1.689336469, -0.150591902), (1.630566459, -0.11907978), (1.56926115, -0.092787123), (1.504718107, -0.073813023), (1.437979346, -0.058872685), (1.368191282, -0.050922189), (1.320843125, -0.049543222), (1.296713839, -0.048840481)],
                knots=[0, 0, 0, 0, 0.978206639, 1.919901502, 2.851605144, 3.780102724, 4.718870031, 5.675451981, 6.667674623, 7.690630536, 8.733308323, 9.756129687, 10.767539656, 11.776269907, 12.797430371, 13.836405707, 14.897401972, 16, 16, 16, 16], degree=3))
        make_face(mode=Mode.SUBTRACT)
    extrude(amount=BOSS_EXTRUDE3_DEPTH)


solid = part.part
